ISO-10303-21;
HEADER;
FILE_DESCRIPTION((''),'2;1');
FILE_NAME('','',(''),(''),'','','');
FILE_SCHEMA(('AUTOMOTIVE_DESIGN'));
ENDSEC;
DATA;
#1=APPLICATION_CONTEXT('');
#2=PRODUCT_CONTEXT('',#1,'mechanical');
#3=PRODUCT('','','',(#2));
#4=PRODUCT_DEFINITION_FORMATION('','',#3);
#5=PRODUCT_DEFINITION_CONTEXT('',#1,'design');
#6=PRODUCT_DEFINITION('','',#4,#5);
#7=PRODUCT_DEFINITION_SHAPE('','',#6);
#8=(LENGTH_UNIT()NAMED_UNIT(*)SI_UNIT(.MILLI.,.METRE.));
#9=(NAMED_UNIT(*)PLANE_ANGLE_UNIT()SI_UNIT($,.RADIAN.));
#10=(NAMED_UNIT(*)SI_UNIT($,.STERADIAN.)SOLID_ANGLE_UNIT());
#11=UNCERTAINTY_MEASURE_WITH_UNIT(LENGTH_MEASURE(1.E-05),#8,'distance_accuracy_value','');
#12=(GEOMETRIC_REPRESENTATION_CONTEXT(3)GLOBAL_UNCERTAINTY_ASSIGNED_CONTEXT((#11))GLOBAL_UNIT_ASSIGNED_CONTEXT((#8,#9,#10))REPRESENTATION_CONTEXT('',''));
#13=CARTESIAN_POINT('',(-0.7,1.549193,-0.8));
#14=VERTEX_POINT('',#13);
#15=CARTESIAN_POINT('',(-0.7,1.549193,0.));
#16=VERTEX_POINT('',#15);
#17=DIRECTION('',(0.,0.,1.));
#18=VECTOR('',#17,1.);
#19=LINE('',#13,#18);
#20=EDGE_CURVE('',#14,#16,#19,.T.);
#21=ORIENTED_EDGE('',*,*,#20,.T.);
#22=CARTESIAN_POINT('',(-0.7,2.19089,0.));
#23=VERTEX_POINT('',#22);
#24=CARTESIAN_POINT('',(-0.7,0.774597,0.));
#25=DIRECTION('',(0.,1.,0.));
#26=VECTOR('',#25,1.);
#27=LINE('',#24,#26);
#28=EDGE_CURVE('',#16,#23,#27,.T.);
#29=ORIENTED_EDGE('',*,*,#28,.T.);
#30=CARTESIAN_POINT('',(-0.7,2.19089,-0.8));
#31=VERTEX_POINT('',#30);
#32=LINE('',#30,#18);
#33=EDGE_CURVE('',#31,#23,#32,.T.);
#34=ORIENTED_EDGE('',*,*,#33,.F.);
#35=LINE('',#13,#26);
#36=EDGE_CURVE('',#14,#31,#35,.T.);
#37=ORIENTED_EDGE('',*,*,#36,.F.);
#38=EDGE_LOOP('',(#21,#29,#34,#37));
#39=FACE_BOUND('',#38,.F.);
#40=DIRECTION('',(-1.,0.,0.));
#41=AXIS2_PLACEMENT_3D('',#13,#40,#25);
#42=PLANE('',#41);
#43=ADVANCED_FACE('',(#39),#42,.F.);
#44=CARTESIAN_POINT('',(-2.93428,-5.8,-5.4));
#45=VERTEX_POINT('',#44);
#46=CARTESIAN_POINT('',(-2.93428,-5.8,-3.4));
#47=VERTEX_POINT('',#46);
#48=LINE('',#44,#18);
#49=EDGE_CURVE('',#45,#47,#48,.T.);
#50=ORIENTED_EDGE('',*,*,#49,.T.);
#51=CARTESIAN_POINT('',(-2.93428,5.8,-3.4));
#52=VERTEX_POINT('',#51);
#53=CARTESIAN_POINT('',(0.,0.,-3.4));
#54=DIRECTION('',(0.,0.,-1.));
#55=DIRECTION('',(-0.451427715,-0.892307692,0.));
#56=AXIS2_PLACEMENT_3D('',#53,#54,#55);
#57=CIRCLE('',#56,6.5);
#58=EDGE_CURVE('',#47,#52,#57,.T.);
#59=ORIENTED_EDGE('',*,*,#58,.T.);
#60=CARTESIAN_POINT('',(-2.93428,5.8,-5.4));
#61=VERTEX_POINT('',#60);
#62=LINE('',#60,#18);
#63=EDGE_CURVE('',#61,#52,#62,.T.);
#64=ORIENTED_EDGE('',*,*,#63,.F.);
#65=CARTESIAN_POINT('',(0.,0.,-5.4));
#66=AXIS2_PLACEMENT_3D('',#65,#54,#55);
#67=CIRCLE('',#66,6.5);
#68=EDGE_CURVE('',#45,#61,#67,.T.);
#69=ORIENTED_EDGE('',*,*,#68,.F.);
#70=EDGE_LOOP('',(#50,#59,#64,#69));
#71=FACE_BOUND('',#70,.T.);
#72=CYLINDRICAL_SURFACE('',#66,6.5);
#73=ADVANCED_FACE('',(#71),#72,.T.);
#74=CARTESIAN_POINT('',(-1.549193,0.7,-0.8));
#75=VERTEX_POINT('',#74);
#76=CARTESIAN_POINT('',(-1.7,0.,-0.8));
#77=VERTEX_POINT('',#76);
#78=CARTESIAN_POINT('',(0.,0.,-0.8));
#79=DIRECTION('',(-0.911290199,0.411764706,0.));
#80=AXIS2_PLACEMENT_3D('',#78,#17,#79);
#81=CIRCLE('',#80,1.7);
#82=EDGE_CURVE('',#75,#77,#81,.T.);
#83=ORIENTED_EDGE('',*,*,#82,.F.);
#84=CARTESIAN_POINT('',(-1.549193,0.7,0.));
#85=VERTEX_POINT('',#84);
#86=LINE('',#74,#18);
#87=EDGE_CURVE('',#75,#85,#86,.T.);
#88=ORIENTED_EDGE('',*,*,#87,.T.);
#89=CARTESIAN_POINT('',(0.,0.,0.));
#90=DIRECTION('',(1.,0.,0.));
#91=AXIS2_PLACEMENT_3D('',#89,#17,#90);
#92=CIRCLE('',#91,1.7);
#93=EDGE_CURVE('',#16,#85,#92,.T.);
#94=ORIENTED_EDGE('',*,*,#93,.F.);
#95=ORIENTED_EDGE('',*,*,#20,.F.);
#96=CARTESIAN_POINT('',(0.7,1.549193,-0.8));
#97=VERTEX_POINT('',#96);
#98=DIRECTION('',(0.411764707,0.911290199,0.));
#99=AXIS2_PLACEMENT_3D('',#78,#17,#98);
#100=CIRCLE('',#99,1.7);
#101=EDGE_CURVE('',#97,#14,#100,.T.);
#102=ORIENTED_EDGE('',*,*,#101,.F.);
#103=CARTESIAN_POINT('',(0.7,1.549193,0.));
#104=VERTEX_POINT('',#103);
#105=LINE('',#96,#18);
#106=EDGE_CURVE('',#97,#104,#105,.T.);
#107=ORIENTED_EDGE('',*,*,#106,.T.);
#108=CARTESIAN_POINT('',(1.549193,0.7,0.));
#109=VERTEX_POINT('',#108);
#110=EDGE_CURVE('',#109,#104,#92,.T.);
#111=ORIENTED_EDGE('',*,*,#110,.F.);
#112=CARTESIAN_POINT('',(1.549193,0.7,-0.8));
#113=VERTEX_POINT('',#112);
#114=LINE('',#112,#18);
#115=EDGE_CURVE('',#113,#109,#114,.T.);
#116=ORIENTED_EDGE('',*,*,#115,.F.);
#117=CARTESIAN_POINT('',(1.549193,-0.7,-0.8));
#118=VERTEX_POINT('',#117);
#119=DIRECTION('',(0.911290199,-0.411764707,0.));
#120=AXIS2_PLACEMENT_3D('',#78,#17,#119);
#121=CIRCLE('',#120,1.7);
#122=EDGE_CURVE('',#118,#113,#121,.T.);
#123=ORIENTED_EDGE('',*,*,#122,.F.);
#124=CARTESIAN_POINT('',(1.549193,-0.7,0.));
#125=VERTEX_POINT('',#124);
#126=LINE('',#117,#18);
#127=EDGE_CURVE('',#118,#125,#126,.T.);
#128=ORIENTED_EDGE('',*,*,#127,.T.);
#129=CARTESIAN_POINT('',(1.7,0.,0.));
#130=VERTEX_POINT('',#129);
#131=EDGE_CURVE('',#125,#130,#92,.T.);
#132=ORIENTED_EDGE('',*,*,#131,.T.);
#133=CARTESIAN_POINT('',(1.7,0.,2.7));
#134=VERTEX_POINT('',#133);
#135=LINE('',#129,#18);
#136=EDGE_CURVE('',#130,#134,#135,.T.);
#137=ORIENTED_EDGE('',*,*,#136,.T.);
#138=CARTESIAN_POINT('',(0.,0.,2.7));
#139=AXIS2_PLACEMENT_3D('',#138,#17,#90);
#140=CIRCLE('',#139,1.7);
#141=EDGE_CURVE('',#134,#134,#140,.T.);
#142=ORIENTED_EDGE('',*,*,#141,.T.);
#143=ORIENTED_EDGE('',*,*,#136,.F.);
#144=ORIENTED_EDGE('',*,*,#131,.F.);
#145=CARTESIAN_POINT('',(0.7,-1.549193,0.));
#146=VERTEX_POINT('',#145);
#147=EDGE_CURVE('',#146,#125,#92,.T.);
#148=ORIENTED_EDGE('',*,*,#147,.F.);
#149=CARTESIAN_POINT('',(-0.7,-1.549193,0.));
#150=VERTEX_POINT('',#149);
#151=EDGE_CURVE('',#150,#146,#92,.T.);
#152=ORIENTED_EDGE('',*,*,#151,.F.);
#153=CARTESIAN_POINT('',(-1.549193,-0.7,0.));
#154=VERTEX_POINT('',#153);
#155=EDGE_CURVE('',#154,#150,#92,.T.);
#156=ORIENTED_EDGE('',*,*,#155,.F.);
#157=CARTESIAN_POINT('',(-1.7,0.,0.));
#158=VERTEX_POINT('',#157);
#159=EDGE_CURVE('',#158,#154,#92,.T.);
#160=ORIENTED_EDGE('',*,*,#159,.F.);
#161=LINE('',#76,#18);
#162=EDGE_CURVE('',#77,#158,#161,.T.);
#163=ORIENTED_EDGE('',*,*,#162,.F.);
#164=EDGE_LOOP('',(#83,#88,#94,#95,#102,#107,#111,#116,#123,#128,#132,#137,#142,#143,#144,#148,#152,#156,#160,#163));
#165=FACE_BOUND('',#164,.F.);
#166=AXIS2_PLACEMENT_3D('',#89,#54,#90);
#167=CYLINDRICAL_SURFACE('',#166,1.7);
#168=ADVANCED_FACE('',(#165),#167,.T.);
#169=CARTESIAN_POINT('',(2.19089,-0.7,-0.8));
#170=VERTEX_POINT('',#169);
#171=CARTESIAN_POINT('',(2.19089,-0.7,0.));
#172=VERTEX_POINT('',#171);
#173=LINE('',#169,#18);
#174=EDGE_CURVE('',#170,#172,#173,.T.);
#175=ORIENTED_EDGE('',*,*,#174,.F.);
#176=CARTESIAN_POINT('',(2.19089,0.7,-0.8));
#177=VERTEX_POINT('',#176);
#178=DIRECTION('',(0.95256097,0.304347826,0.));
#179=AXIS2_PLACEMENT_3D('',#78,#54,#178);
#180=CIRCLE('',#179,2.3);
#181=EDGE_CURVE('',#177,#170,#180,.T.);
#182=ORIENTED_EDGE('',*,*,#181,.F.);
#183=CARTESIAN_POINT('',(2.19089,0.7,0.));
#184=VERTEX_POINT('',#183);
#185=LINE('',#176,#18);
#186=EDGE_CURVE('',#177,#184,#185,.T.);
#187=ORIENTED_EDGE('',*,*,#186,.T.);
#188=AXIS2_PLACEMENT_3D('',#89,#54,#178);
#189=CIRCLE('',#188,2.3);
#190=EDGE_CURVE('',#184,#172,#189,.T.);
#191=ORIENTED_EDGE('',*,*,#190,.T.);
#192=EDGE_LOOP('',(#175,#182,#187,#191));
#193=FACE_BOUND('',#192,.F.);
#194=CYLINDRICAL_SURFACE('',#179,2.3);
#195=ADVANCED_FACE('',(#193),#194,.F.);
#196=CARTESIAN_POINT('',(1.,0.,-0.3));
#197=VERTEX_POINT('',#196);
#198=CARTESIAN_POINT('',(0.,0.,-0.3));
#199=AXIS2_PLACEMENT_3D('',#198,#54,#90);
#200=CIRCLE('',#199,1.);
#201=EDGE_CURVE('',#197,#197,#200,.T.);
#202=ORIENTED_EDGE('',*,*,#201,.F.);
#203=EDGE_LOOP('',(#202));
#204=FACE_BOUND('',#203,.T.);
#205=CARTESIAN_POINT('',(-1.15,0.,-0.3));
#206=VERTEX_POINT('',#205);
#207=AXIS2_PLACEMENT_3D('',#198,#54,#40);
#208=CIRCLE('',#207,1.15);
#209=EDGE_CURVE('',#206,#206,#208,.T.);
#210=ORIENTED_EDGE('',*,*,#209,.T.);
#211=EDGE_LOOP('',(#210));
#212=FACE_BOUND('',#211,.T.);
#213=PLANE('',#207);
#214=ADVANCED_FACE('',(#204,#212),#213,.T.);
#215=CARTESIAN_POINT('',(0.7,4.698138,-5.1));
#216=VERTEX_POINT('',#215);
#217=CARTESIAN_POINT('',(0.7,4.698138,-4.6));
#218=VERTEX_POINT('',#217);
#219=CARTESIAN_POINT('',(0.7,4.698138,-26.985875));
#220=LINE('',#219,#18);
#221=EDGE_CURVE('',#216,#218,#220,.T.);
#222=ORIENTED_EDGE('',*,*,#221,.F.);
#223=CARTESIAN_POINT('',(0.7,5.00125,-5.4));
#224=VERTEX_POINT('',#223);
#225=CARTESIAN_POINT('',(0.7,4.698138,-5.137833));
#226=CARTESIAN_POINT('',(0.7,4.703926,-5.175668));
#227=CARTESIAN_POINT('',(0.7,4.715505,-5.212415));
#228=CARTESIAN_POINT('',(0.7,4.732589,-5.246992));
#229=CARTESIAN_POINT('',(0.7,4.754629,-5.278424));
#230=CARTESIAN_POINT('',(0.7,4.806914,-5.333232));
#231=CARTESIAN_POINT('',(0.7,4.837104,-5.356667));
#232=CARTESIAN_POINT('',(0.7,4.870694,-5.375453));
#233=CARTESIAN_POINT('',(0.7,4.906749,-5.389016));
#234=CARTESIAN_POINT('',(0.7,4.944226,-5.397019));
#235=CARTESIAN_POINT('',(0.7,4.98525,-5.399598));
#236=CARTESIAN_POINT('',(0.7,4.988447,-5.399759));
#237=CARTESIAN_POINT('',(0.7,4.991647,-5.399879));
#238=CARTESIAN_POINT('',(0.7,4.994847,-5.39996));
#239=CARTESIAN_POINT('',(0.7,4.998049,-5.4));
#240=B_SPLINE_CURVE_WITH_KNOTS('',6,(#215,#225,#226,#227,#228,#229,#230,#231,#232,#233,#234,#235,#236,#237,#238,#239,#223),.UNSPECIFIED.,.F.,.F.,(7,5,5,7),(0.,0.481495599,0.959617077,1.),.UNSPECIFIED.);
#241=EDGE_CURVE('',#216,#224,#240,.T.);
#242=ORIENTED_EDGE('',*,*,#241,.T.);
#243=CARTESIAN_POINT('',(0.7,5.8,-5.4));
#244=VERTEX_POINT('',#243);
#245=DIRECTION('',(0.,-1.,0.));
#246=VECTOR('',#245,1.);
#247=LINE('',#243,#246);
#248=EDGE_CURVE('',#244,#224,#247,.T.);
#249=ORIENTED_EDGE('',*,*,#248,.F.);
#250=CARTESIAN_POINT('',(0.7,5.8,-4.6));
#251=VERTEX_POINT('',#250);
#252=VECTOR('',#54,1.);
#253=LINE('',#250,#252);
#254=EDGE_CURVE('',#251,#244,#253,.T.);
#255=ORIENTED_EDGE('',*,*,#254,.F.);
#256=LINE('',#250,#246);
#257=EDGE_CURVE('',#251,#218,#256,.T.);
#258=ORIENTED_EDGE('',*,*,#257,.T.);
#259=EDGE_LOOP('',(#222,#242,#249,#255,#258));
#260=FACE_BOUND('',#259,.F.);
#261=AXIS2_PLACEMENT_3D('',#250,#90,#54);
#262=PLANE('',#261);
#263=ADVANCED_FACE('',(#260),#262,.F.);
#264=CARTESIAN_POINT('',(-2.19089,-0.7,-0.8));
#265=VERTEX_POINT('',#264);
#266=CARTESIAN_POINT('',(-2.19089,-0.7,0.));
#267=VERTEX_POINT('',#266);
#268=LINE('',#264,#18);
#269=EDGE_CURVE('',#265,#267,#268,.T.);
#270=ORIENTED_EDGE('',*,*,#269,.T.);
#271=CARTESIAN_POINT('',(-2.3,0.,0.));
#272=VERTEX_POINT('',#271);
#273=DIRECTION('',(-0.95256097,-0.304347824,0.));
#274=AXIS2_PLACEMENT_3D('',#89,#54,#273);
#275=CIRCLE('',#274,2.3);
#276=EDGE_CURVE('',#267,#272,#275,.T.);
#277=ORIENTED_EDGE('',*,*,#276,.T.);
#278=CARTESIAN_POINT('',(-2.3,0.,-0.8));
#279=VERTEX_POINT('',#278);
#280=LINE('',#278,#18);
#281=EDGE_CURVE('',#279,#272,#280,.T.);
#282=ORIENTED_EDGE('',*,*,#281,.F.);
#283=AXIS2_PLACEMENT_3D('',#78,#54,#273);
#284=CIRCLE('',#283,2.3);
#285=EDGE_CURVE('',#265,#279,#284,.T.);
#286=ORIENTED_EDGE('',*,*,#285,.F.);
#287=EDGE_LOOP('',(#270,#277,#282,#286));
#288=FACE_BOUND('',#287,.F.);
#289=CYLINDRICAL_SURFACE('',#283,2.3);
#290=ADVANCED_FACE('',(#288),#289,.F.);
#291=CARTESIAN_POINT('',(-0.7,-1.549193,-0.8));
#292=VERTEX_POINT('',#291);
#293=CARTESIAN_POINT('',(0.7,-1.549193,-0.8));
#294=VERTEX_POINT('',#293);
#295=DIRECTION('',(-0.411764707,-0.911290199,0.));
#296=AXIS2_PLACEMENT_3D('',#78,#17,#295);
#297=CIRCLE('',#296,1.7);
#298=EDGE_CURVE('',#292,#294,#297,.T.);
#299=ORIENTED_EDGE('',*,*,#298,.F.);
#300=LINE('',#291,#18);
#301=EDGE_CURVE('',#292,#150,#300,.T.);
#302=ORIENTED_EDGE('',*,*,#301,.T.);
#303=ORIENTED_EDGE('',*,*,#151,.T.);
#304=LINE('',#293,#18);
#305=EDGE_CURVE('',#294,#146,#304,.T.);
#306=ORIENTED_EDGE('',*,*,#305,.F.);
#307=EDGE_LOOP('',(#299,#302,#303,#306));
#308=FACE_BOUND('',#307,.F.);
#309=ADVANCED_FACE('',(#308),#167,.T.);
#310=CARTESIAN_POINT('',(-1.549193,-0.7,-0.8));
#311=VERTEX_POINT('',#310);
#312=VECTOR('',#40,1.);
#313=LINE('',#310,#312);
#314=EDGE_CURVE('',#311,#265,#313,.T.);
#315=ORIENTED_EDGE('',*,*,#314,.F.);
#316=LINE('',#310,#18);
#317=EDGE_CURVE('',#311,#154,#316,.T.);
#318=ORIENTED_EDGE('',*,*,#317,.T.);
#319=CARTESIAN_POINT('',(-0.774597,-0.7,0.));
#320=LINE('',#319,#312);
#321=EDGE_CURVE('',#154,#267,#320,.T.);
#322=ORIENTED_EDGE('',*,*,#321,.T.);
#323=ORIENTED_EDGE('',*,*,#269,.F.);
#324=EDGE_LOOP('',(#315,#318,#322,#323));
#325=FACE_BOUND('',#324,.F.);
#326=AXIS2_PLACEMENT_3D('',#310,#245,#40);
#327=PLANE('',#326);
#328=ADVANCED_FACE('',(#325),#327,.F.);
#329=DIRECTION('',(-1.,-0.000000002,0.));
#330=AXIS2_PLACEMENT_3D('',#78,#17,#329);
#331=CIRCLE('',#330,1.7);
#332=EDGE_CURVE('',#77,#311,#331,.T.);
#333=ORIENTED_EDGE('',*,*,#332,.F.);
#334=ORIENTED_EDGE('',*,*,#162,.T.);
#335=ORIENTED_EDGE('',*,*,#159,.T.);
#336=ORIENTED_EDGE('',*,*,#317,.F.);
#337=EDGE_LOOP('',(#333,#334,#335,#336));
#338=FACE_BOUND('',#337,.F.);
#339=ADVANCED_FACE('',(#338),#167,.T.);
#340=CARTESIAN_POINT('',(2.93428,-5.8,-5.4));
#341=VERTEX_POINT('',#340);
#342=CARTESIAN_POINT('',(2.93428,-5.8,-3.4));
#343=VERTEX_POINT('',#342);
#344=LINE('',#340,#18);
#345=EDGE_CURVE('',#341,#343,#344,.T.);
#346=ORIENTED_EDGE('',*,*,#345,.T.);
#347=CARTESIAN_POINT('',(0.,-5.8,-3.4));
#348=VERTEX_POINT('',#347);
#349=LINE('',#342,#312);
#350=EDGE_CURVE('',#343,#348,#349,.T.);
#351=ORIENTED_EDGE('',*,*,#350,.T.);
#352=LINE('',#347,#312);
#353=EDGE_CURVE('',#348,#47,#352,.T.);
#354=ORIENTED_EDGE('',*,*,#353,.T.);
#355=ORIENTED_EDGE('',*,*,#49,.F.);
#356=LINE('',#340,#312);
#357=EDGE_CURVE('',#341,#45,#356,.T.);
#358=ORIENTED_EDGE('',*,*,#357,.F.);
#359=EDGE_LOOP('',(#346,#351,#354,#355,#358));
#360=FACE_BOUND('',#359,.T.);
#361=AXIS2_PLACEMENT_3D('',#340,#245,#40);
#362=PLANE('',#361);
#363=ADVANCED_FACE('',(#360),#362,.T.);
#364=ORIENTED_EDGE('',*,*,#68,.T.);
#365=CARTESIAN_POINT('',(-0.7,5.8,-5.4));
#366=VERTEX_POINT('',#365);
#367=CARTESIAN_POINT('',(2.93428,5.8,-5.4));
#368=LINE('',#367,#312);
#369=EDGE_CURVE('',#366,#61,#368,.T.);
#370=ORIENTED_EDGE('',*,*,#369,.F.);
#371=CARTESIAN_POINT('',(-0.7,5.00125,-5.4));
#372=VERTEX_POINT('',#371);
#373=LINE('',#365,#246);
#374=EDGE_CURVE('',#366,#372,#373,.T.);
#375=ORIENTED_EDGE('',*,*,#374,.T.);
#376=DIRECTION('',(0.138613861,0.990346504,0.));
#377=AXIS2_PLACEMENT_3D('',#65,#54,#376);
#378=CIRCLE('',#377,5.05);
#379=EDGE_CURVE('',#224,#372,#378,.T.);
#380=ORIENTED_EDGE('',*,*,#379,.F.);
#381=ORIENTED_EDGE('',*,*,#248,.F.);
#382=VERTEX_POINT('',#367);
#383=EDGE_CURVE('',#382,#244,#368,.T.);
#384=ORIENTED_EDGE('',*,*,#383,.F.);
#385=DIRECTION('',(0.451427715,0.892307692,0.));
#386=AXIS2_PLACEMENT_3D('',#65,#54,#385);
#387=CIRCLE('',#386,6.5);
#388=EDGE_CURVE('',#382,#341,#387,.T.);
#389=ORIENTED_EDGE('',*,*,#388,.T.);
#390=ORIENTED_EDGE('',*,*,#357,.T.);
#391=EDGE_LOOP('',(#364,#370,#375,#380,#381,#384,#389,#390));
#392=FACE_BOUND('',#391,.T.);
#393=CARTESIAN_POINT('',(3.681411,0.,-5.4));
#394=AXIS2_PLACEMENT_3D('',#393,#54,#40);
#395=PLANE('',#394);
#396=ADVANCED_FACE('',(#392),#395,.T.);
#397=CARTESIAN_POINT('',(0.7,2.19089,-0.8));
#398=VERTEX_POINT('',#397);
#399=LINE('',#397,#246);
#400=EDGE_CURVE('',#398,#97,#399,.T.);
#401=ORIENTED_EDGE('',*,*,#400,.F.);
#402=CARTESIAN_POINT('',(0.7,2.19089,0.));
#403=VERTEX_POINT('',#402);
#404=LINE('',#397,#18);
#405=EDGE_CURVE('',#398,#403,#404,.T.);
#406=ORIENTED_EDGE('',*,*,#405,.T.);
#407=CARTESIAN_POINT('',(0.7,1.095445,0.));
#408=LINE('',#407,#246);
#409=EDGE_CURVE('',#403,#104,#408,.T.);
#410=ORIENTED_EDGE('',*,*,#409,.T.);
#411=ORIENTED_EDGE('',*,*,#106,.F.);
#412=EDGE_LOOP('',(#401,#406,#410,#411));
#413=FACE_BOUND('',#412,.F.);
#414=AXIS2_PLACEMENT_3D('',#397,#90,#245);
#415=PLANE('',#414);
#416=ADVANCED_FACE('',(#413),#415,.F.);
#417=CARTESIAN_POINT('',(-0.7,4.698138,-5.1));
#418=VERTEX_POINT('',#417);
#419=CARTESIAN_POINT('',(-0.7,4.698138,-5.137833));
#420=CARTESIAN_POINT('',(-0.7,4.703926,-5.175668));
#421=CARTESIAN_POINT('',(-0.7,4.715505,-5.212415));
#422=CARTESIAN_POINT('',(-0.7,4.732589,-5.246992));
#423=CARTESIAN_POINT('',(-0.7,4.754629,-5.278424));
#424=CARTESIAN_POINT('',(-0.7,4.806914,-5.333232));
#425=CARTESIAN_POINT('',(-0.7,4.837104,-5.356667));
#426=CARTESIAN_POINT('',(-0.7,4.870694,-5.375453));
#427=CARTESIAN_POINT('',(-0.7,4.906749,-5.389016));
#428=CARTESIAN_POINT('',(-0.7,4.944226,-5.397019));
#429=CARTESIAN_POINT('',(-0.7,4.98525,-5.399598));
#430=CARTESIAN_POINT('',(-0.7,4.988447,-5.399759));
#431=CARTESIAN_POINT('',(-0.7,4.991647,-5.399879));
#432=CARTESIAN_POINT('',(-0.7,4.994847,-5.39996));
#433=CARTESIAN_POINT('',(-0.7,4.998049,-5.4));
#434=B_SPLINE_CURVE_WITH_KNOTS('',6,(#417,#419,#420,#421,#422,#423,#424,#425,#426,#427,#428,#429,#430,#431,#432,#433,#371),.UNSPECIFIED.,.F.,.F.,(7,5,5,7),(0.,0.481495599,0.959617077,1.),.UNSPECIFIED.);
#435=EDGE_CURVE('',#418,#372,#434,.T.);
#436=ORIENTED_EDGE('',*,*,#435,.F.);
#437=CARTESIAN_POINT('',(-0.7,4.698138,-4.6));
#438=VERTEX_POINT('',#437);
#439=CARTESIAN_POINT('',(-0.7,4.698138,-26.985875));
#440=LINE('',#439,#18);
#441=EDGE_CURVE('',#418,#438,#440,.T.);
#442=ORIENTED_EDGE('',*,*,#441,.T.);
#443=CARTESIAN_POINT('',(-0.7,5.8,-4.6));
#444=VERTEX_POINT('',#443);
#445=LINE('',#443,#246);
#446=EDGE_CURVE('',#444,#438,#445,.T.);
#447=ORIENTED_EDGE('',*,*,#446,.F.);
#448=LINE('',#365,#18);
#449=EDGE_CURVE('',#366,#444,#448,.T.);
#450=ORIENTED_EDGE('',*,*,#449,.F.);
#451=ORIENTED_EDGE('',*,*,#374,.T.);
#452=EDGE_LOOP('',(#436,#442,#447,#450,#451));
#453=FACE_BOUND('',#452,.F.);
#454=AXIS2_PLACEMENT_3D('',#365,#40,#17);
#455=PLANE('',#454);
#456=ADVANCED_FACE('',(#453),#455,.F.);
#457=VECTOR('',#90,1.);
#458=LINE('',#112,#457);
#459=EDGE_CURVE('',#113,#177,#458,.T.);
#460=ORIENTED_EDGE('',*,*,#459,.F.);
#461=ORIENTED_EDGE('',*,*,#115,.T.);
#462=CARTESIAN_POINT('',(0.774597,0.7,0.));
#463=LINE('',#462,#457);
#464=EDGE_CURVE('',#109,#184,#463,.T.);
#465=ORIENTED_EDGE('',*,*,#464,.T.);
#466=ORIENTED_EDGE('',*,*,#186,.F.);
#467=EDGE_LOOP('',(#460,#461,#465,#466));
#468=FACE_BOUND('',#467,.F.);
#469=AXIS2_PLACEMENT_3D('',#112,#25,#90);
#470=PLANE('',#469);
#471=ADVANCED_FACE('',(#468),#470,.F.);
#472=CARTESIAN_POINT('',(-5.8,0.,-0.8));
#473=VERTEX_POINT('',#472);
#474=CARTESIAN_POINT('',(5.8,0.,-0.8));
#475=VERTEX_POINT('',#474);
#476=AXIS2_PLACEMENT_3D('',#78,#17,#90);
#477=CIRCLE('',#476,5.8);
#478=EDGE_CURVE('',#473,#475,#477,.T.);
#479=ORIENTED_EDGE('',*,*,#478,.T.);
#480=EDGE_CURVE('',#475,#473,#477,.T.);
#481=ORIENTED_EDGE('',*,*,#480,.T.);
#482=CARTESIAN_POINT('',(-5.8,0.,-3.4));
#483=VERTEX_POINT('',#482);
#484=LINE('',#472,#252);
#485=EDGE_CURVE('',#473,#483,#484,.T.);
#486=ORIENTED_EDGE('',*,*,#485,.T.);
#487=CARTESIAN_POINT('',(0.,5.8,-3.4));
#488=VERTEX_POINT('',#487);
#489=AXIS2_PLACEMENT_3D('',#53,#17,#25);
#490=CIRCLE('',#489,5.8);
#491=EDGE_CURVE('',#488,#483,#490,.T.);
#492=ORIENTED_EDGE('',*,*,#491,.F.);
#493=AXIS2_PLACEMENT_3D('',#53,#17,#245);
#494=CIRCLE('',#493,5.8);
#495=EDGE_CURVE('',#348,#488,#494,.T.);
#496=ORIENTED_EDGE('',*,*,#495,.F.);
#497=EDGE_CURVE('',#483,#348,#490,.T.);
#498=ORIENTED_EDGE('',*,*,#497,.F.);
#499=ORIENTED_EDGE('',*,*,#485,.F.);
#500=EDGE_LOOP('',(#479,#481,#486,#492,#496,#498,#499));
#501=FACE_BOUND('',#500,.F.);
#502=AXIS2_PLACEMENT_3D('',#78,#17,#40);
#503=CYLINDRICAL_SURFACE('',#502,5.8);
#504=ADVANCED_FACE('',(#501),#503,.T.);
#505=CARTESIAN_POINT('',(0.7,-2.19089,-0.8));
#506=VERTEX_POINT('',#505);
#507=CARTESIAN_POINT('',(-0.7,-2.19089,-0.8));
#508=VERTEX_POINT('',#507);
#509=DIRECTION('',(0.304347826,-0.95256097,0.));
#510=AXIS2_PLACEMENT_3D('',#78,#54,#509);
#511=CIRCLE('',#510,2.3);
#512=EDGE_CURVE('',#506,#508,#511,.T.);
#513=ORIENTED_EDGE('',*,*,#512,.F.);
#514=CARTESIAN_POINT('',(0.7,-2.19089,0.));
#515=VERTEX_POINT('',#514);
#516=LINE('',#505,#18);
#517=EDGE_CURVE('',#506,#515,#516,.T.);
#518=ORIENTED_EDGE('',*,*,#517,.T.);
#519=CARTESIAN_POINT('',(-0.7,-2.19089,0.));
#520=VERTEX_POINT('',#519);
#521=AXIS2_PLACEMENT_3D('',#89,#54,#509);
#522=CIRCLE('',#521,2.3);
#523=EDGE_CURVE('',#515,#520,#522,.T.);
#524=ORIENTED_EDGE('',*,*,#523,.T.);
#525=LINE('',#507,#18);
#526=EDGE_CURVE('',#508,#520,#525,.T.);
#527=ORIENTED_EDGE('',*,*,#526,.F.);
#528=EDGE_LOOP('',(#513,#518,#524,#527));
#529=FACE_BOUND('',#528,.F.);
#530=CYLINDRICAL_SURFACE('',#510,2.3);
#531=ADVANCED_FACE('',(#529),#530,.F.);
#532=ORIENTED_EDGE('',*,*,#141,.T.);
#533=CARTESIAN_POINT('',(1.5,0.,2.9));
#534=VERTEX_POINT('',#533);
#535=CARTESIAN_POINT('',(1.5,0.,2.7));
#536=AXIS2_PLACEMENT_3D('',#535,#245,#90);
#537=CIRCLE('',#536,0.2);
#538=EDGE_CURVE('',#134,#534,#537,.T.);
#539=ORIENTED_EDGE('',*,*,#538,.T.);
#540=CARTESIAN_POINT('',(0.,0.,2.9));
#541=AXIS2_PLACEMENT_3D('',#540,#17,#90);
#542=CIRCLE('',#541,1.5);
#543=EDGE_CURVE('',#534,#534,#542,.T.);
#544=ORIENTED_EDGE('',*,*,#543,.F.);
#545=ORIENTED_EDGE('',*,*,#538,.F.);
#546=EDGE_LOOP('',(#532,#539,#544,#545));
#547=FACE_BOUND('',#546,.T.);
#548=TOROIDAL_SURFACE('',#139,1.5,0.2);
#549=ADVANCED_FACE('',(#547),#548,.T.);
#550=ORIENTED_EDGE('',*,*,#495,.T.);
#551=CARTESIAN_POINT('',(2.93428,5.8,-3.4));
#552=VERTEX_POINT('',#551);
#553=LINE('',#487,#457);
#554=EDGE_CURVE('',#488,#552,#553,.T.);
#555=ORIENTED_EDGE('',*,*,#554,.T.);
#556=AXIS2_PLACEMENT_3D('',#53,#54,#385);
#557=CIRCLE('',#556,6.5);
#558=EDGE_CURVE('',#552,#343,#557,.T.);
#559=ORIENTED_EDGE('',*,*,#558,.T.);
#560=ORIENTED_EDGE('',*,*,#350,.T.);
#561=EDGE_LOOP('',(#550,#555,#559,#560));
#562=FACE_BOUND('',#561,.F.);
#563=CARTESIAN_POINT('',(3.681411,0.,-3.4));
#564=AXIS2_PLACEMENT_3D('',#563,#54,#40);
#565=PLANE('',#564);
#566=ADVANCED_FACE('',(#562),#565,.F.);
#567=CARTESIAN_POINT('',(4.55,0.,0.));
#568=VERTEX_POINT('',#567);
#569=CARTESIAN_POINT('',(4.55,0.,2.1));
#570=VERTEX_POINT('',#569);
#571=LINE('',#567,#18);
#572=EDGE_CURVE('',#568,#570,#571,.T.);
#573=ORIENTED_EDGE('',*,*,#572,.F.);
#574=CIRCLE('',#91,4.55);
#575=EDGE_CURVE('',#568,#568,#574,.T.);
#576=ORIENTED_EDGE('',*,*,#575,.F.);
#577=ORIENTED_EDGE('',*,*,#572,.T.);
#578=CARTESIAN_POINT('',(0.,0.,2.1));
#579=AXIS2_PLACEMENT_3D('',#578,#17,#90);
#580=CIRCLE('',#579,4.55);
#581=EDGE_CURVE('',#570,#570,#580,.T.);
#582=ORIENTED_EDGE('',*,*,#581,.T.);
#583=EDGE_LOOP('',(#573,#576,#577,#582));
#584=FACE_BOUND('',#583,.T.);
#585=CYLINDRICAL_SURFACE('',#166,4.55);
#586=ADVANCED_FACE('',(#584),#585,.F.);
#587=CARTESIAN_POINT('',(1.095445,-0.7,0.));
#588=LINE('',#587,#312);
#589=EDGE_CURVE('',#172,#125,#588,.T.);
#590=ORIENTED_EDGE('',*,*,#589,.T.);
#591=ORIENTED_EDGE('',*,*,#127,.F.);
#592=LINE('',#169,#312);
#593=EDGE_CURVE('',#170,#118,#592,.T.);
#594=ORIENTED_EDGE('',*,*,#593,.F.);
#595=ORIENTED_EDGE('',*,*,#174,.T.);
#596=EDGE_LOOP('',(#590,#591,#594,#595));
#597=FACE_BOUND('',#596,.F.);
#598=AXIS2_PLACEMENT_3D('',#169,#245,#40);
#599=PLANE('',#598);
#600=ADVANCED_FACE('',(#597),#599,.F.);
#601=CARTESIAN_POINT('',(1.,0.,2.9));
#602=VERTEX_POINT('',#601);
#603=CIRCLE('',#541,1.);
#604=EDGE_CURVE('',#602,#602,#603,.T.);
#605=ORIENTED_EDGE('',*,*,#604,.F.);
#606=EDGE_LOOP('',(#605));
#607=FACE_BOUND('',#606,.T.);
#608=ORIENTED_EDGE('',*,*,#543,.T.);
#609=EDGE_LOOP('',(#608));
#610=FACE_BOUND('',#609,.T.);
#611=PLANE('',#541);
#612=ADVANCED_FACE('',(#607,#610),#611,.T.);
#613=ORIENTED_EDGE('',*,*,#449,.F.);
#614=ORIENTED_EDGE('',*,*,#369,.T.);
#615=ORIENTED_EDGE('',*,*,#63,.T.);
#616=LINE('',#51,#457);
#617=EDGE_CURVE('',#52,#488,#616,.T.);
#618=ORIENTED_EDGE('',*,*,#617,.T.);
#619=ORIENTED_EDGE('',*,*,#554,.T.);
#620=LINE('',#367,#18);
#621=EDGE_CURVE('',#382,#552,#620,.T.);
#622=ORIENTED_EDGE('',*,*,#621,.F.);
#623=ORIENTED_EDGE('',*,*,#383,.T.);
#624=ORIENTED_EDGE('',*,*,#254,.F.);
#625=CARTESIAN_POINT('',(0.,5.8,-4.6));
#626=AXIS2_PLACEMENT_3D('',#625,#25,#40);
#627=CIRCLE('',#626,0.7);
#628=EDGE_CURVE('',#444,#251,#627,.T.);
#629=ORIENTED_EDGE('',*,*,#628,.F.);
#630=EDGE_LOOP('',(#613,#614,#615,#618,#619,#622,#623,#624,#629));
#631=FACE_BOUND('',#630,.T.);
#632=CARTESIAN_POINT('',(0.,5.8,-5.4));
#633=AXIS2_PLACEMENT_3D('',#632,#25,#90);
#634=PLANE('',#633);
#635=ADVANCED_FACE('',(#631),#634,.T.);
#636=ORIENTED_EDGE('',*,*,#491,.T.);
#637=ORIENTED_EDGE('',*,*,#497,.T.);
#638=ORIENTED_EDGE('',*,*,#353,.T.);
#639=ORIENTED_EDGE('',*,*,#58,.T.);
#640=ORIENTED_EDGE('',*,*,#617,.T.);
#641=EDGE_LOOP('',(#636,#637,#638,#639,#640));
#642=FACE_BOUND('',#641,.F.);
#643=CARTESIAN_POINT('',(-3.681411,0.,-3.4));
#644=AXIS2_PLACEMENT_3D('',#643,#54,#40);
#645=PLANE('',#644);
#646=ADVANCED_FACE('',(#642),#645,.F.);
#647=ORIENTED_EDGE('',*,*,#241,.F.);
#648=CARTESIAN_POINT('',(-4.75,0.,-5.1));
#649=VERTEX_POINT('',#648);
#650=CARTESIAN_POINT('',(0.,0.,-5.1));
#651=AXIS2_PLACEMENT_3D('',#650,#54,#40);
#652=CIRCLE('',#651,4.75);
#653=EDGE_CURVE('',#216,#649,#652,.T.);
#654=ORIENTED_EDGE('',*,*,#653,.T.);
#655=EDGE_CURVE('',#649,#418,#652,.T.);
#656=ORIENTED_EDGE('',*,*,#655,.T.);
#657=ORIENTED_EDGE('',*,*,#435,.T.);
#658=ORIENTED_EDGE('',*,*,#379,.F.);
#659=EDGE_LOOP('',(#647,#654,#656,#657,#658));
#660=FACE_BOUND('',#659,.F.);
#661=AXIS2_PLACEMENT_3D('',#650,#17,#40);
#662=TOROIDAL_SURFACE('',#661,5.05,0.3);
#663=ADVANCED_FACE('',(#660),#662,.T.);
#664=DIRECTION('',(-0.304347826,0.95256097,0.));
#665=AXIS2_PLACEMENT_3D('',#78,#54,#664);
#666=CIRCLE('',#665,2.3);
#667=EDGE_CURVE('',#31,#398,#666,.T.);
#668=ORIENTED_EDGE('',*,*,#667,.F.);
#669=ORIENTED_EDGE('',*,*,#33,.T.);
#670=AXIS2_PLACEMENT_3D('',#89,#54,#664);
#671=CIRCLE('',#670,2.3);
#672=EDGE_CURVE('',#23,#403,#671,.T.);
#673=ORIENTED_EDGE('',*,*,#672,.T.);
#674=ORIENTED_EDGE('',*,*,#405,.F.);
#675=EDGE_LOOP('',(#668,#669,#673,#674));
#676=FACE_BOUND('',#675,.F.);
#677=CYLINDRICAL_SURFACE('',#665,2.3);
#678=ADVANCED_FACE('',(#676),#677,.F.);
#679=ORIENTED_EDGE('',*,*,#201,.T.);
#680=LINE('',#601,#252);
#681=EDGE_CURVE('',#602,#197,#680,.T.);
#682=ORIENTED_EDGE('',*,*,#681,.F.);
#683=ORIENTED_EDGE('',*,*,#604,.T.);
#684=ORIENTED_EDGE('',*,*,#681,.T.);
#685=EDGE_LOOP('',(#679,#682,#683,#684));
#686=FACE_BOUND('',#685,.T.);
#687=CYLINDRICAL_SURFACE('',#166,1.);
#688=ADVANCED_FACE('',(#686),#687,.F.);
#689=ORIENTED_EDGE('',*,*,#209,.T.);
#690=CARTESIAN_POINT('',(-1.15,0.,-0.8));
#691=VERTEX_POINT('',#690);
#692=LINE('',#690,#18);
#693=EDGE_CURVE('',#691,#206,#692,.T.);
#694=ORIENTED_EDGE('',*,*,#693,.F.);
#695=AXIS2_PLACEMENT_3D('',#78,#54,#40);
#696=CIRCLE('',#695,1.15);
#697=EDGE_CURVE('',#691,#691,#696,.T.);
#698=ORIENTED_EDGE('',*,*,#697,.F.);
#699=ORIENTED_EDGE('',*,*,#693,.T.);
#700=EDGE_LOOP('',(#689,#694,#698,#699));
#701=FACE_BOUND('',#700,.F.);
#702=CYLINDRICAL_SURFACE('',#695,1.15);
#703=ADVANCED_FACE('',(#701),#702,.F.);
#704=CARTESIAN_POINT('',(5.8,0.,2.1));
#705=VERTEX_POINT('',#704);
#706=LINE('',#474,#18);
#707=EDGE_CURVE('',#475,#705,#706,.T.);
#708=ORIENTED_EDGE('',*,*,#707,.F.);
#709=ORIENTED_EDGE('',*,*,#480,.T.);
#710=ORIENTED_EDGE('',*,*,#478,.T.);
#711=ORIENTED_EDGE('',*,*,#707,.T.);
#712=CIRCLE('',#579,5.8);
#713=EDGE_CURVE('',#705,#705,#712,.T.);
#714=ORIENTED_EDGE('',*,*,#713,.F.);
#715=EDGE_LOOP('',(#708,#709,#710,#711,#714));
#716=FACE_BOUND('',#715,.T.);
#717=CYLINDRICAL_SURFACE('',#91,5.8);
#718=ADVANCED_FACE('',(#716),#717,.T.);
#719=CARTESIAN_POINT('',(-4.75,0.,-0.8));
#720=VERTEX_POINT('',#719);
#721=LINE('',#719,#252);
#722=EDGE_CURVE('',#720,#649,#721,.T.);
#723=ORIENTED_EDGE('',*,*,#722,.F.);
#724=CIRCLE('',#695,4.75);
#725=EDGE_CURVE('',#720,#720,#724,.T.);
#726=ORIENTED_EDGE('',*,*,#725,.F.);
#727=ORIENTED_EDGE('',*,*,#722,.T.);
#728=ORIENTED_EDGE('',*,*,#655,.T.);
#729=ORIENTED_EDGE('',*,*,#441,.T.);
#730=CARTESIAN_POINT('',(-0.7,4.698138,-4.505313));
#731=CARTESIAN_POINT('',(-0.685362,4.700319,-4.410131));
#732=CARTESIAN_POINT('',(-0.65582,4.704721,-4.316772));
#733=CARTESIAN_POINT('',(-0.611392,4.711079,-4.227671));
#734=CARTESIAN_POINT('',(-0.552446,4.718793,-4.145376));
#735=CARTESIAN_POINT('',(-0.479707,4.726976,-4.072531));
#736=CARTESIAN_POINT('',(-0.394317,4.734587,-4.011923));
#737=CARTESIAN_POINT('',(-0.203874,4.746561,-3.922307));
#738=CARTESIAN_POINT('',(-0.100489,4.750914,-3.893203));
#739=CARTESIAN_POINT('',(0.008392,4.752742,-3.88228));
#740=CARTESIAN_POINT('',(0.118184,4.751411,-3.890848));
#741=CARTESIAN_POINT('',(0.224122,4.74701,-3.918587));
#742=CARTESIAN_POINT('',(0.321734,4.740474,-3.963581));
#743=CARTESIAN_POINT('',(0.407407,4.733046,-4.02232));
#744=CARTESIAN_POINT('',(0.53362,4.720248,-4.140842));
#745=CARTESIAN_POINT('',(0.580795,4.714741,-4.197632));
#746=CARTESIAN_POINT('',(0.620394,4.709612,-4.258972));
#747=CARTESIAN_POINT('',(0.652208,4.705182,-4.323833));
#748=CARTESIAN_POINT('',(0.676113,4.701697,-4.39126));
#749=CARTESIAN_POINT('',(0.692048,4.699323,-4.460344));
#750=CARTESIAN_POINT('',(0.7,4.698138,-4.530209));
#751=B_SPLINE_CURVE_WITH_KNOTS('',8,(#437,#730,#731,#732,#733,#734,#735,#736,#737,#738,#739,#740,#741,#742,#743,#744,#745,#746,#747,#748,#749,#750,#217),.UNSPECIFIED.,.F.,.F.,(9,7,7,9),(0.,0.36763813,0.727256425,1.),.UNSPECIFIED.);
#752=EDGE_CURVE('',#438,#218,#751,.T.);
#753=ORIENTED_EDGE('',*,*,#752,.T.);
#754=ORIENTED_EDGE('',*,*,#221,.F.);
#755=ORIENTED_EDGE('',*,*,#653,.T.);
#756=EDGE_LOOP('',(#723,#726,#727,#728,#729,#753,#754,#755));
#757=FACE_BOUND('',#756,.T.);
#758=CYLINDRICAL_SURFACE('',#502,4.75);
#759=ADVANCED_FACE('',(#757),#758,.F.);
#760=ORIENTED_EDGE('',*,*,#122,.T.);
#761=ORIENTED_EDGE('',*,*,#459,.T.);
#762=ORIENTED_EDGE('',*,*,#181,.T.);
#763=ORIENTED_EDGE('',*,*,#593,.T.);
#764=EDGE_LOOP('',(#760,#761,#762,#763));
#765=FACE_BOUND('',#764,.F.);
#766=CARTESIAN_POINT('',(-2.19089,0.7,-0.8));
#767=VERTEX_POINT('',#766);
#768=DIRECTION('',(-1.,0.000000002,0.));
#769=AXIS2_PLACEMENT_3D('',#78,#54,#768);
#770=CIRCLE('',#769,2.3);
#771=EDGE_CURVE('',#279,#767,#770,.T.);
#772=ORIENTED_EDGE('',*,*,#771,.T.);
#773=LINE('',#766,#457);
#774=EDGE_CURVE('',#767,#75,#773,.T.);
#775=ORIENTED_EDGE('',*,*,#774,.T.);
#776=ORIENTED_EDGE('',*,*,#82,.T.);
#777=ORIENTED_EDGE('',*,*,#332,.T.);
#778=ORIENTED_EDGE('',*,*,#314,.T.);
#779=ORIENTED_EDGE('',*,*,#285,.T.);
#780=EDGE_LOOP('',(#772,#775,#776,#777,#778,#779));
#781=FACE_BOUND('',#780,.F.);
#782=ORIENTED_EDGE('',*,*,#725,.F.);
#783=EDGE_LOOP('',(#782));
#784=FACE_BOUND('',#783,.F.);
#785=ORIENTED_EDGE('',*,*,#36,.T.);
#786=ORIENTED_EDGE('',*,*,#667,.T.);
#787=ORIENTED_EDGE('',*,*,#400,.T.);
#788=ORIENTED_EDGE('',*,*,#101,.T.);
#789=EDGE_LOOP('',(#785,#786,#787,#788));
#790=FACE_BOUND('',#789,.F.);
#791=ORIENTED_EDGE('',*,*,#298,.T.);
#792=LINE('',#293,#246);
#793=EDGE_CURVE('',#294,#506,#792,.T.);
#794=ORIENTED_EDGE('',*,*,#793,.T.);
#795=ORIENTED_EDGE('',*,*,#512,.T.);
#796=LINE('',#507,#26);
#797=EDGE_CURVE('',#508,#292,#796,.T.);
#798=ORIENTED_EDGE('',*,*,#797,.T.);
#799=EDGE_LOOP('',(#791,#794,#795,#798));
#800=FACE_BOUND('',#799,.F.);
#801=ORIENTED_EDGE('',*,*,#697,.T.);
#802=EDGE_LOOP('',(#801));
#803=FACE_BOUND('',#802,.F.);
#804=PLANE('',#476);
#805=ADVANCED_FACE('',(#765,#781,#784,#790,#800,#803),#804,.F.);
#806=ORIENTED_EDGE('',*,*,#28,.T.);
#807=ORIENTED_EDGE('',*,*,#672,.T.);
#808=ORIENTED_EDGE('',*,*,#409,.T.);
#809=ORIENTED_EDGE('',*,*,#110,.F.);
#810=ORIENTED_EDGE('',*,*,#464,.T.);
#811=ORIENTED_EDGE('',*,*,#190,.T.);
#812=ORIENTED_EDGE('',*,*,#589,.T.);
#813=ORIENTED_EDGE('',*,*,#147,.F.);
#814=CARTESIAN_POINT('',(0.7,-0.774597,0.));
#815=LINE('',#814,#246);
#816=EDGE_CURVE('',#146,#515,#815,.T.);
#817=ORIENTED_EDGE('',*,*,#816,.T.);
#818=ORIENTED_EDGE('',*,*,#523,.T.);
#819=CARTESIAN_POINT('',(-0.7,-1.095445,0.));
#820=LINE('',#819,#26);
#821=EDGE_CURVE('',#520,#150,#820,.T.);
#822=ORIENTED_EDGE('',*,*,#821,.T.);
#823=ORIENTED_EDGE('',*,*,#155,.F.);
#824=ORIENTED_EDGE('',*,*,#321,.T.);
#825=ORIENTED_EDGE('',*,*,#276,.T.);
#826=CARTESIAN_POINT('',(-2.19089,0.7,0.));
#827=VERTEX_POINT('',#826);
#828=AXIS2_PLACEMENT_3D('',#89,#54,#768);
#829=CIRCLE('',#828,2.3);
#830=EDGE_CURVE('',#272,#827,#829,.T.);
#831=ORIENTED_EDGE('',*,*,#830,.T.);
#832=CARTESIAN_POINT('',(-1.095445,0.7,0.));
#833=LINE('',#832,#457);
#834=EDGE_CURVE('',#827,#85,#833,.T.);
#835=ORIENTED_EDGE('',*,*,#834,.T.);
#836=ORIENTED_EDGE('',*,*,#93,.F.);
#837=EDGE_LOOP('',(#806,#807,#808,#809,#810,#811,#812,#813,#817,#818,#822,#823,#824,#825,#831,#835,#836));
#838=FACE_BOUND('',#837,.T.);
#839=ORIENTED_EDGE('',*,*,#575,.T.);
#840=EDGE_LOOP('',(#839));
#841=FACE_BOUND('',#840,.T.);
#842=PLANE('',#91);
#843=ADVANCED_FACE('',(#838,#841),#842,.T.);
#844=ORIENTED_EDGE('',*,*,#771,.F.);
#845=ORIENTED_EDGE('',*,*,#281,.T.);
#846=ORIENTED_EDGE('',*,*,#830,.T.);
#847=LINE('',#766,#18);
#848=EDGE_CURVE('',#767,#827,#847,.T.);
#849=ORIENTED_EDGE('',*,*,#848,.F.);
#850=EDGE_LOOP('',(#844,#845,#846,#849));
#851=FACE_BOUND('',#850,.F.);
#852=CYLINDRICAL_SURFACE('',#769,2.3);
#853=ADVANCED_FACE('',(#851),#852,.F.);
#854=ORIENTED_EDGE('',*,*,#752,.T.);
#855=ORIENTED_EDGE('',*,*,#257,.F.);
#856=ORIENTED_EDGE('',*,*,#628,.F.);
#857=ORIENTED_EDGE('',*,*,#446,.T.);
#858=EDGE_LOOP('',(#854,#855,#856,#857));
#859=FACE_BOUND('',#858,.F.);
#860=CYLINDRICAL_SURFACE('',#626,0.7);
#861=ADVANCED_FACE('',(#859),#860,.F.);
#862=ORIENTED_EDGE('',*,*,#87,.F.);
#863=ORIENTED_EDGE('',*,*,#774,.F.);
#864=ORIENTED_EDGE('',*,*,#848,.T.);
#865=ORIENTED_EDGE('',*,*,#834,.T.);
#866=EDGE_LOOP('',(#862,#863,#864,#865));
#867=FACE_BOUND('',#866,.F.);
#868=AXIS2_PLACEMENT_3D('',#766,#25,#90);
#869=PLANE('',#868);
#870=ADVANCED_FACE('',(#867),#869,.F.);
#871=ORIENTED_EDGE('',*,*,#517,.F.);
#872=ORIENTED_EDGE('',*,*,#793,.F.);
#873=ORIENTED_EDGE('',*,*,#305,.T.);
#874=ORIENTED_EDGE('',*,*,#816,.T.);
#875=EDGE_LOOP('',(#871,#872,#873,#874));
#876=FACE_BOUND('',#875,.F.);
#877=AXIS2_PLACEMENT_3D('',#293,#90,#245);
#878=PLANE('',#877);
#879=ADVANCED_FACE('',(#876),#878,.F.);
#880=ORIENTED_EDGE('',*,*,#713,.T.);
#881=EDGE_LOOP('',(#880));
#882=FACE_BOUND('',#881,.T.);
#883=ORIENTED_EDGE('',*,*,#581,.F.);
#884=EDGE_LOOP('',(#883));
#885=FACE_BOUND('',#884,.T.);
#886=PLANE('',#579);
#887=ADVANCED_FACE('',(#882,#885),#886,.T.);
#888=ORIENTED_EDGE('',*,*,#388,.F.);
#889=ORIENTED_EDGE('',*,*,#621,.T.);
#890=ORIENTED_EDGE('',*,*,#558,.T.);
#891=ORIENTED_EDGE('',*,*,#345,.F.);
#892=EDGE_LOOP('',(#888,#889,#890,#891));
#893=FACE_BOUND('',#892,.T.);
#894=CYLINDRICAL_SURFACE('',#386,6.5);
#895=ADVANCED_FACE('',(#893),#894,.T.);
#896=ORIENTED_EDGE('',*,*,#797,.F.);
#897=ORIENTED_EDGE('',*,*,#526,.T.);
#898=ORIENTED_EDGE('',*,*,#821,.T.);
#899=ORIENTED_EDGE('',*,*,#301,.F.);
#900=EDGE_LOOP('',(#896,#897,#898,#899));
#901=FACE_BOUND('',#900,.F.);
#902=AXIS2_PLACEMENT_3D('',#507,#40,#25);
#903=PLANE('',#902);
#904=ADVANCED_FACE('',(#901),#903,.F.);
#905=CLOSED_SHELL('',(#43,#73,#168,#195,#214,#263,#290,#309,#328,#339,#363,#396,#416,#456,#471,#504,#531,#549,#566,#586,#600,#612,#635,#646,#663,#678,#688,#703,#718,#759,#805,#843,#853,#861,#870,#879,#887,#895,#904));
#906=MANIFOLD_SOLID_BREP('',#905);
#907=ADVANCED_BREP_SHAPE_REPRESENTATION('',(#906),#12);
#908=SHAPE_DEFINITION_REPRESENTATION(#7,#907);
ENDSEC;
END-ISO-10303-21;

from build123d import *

# Parameters (mm, degrees)
SKETCH_1_R               = 5.8
SKETCH_1_R_2             = 4.55
EXTRUDE_1_DEPTH          = 2.1
SKETCH_1_3_R             = 1.7
SKETCH_1_3_R_2           = 1
EXTRUDE_2_DEPTH          = 2.9
SKETCH_1_5_R             = 5.8
SKETCH_1_5_R_2           = 4.55
SKETCH_1_5_R_3           = 1.7
SKETCH_1_5_R_4           = 1
EXTRUDE_4_DEPTH          = 0.8
SKETCH_2_R               = 5.8
SKETCH_2_R_2             = 4.75
EXTRUDE_5_DEPTH          = 4.6
EXTRUDE_6_DEPTH          = 2
CUT_EXTRUDE_1_REACH      = 11.851
FILLET_1_R               = 0.2
FILLET_2_R               = 0.3
SKETCH_6_R               = 1.15
CUT_EXTRUDE_4_DEPTH      = 0.5
CUT_EXTRUDE_5_REACH      = 16.352
CUT_EXTRUDE_5_END_RADIUS = 4.75


with BuildPart() as part:
    # Sketch 1 → Extrude 1 (new body)
    with BuildSketch(Plane.XY):
        Circle(SKETCH_1_R)
        Circle(SKETCH_1_R_2, mode=Mode.SUBTRACT)
    extrude(amount=EXTRUDE_1_DEPTH)



with BuildPart() as body_2:
    # Sketch 1_3 → Extrude 2 (new body)
    with BuildSketch(Plane.XY):
        Circle(SKETCH_1_3_R)
        Circle(SKETCH_1_3_R_2, mode=Mode.SUBTRACT)
    extrude(amount=EXTRUDE_2_DEPTH)


with BuildPart() as part_1:
    add(part.part)

    add(body_2.part)  # Extrude 4 merges body 2
    # Sketch 1_5 → Extrude 4 (add)
    with BuildSketch(Plane.XY):
        Circle(SKETCH_1_5_R)
        Circle(SKETCH_1_5_R_2, mode=Mode.SUBTRACT)
        Circle(SKETCH_1_5_R_2)
        Circle(SKETCH_1_5_R_3, mode=Mode.SUBTRACT)
        Circle(SKETCH_1_5_R_3)
        Circle(SKETCH_1_5_R_4, mode=Mode.SUBTRACT)
    extrude(amount=-EXTRUDE_4_DEPTH)

    # Sketch 2 → Extrude 5 (add)
    with BuildSketch(Plane(origin=(0, 0, -0.8), x_dir=(-1, 0, 0), z_dir=(0, 0, -1))):
        Circle(SKETCH_2_R)
        Circle(SKETCH_2_R_2, mode=Mode.SUBTRACT)
    extrude(amount=EXTRUDE_5_DEPTH)

    # Sketch 3 → Extrude 6 (add)
    with BuildSketch(Plane(origin=(0, 0, -5.4), x_dir=(-1, 0, 0), z_dir=(0, 0, -1))):
        with BuildLine():
            Line((0, 5.8), (-2.93428015, 5.8))
            ThreePointArc((-2.93428015, 5.8), (-6.5, 0), (-2.93428015, -5.8))
            Line((-2.93428015, -5.8), (0, -5.8))
            ThreePointArc((0, -5.8), (-5.8, 0), (0, 5.8))
        make_face()
        with BuildLine():
            Line((2.93428015, 5.8), (0, 5.8))
            ThreePointArc((0, 5.8), (5.8, 0), (0, -5.8))
            Line((0, -5.8), (2.93428015, -5.8))
            ThreePointArc((2.93428015, -5.8), (6.5, 0), (2.93428015, 5.8))
        make_face()
    extrude(amount=-EXTRUDE_6_DEPTH)

    # Sketch 4 → Cut-Extrude 1 (cut, up to next)
    with BuildSketch(Plane(origin=(0, 0, -0.8), x_dir=(-1, 0, 0), z_dir=(0, 0, -1)), mode=Mode.PRIVATE) as cut_extrude_1_sk1:
        with BuildLine():
            Line((-0.7, -1.549193338), (-0.7, -2.19089023))
            ThreePointArc((-0.7, -2.19089023), (0, -2.3), (0.7, -2.19089023))
            Line((0.7, -2.19089023), (0.7, -1.549193338))
            ThreePointArc((0.7, -1.549193338), (0, -1.7), (-0.7, -1.549193338))
        make_face()
    cut_extrude_1_tool1 = extrude(cut_extrude_1_sk1.sketch, amount=-CUT_EXTRUDE_1_REACH, mode=Mode.PRIVATE) & part_1.part
    # Sketch 4 → Cut-Extrude 1 (cut, up to next)
    with BuildSketch(Plane(origin=(0, 0, -0.8), x_dir=(-1, 0, 0), z_dir=(0, 0, -1)), mode=Mode.PRIVATE) as cut_extrude_1_sk2:
        with BuildLine():
            ThreePointArc((0.7, 2.19089023), (0, 2.3), (-0.7, 2.19089023))
            Line((-0.7, 2.19089023), (-0.7, 1.549193338))
            ThreePointArc((-0.7, 1.549193338), (0, 1.7), (0.7, 1.549193338))
            Line((0.7, 1.549193338), (0.7, 2.19089023))
        make_face()
    cut_extrude_1_tool2 = extrude(cut_extrude_1_sk2.sketch, amount=-CUT_EXTRUDE_1_REACH, mode=Mode.PRIVATE) & part_1.part
    # Sketch 4 → Cut-Extrude 1 (cut, up to next)
    with BuildSketch(Plane(origin=(0, 0, -0.8), x_dir=(-1, 0, 0), z_dir=(0, 0, -1)), mode=Mode.PRIVATE) as cut_extrude_1_sk3:
        with BuildLine():
            ThreePointArc((-2.19089023, 0.7), (-2.3, 0), (-2.19089023, -0.7))
            Line((-2.19089023, -0.7), (-1.549193338, -0.7))
            ThreePointArc((-1.549193338, -0.7), (-1.7, 0), (-1.549193338, 0.7))
            Line((-1.549193338, 0.7), (-2.19089023, 0.7))
        make_face()
    cut_extrude_1_tool3 = extrude(cut_extrude_1_sk3.sketch, amount=-CUT_EXTRUDE_1_REACH, mode=Mode.PRIVATE) & part_1.part
    # Sketch 4 → Cut-Extrude 1 (cut, up to next)
    with BuildSketch(Plane(origin=(0, 0, -0.8), x_dir=(-1, 0, 0), z_dir=(0, 0, -1)), mode=Mode.PRIVATE) as cut_extrude_1_sk4:
        with BuildLine():
            Line((1.549193338, -0.7), (2.19089023, -0.7))
            ThreePointArc((2.19089023, -0.7), (2.272558858, -0.354226249), (2.3, 0))
            ThreePointArc((2.3, 0), (2.272558858, 0.354226249), (2.19089023, 0.7))
            Line((2.19089023, 0.7), (1.549193338, 0.7))
            ThreePointArc((1.549193338, 0.7), (1.661870734, 0.358030253), (1.7, 0))
            ThreePointArc((1.7, 0), (1.661870734, -0.358030253), (1.549193338, -0.7))
        make_face()
    cut_extrude_1_tool4 = extrude(cut_extrude_1_sk4.sketch, amount=-CUT_EXTRUDE_1_REACH, mode=Mode.PRIVATE) & part_1.part
    # Sketch 4 → Cut-Extrude 1 (cut, up to next)
    with BuildSketch(Plane(origin=(0, 0, -0.8), x_dir=(-1, 0, 0), z_dir=(0, 0, -1)), mode=Mode.PRIVATE) as cut_extrude_1_sk5:
        with BuildLine():
            Line((-0.7, -1.549193338), (-0.7, -2.19089023))
            ThreePointArc((-0.7, -2.19089023), (0, -2.3), (0.7, -2.19089023))
            Line((0.7, -2.19089023), (0.7, -1.549193338))
            ThreePointArc((0.7, -1.549193338), (0, -1.7), (-0.7, -1.549193338))
        make_face()
    cut_extrude_1_tool5 = extrude(cut_extrude_1_sk5.sketch, amount=-CUT_EXTRUDE_1_REACH, mode=Mode.PRIVATE) & part_1.part
    # Sketch 4 → Cut-Extrude 1 (cut, up to next)
    with BuildSketch(Plane(origin=(0, 0, -0.8), x_dir=(-1, 0, 0), z_dir=(0, 0, -1)), mode=Mode.PRIVATE) as cut_extrude_1_sk6:
        with BuildLine():
            ThreePointArc((0.7, 2.19089023), (0, 2.3), (-0.7, 2.19089023))
            Line((-0.7, 2.19089023), (-0.7, 1.549193338))
            ThreePointArc((-0.7, 1.549193338), (0, 1.7), (0.7, 1.549193338))
            Line((0.7, 1.549193338), (0.7, 2.19089023))
        make_face()
    cut_extrude_1_tool6 = extrude(cut_extrude_1_sk6.sketch, amount=-CUT_EXTRUDE_1_REACH, mode=Mode.PRIVATE) & part_1.part
    # Sketch 4 → Cut-Extrude 1 (cut, up to next)
    with BuildSketch(Plane(origin=(0, 0, -0.8), x_dir=(-1, 0, 0), z_dir=(0, 0, -1)), mode=Mode.PRIVATE) as cut_extrude_1_sk7:
        with BuildLine():
            ThreePointArc((-2.19089023, 0.7), (-2.3, 0), (-2.19089023, -0.7))
            Line((-2.19089023, -0.7), (-1.549193338, -0.7))
            ThreePointArc((-1.549193338, -0.7), (-1.7, 0), (-1.549193338, 0.7))
            Line((-1.549193338, 0.7), (-2.19089023, 0.7))
        make_face()
    cut_extrude_1_tool7 = extrude(cut_extrude_1_sk7.sketch, amount=-CUT_EXTRUDE_1_REACH, mode=Mode.PRIVATE) & part_1.part
    # Sketch 4 → Cut-Extrude 1 (cut, up to next)
    with BuildSketch(Plane(origin=(0, 0, -0.8), x_dir=(-1, 0, 0), z_dir=(0, 0, -1)), mode=Mode.PRIVATE) as cut_extrude_1_sk8:
        with BuildLine():
            Line((1.549193338, -0.7), (2.19089023, -0.7))
            ThreePointArc((2.19089023, -0.7), (2.272558858, -0.354226249), (2.3, 0))
            ThreePointArc((2.3, 0), (2.272558858, 0.354226249), (2.19089023, 0.7))
            Line((2.19089023, 0.7), (1.549193338, 0.7))
            ThreePointArc((1.549193338, 0.7), (1.661870734, 0.358030253), (1.7, 0))
            ThreePointArc((1.7, 0), (1.661870734, -0.358030253), (1.549193338, -0.7))
        make_face()
    cut_extrude_1_tool8 = extrude(cut_extrude_1_sk8.sketch, amount=-CUT_EXTRUDE_1_REACH, mode=Mode.PRIVATE) & part_1.part
    add(cut_extrude_1_tool1.solids().sort_by_distance((0, -1.956551, -0.8))[0], mode=Mode.SUBTRACT)
    add(cut_extrude_1_tool2.solids().sort_by_distance((0, 1.956551, -0.8))[0], mode=Mode.SUBTRACT)
    add(cut_extrude_1_tool3.solids().sort_by_distance((1.956551, 0, -0.8))[0], mode=Mode.SUBTRACT)
    add(cut_extrude_1_tool4.solids().sort_by_distance((-1.956551, 0, -0.8))[0], mode=Mode.SUBTRACT)
    add(cut_extrude_1_tool5.solids().sort_by_distance((0, -1.956551, -0.8))[0], mode=Mode.SUBTRACT)
    add(cut_extrude_1_tool6.solids().sort_by_distance((0, 1.956551, -0.8))[0], mode=Mode.SUBTRACT)
    add(cut_extrude_1_tool7.solids().sort_by_distance((1.956551, 0, -0.8))[0], mode=Mode.SUBTRACT)
    add(cut_extrude_1_tool8.solids().sort_by_distance((-1.956551, 0, -0.8))[0], mode=Mode.SUBTRACT)

    # Fillet 1
    fillet_1_edges = [part_1.edges().sort_by_distance(p)[0] for p in [
        (-1.7, 0, 2.9),
    ]]
    fillet(fillet_1_edges, radius=FILLET_1_R)

    # Fillet 2
    fillet_2_edges = [part_1.edges().sort_by_distance(p)[0] for p in [
        (4.75, 0, -5.4),
    ]]
    fillet(fillet_2_edges, radius=FILLET_2_R)

    # Sketch 6 → Cut-Extrude 4 (cut)
    with BuildSketch(Plane(origin=(0, 0, -0.8), x_dir=(-1, 0, 0), z_dir=(0, 0, -1))):
        Circle(SKETCH_6_R)
    extrude(amount=-CUT_EXTRUDE_4_DEPTH, mode=Mode.SUBTRACT)

    # Cut-Extrude 5: up to this cylinder (the profile starts outside it)
    cut_extrude_5_end = Plane(origin=(0, 0, -4.843393), z_dir=(0, 0, 1)) * Cylinder(CUT_EXTRUDE_5_END_RADIUS, 44.284964, mode=Mode.PRIVATE)
    # Sketch 7 → Cut-Extrude 5 (cut, up to the surface)
    with BuildSketch(Plane(origin=(0, 5.8, 0), x_dir=(1, 0, 0), z_dir=(0, 1, 0)), mode=Mode.PRIVATE) as cut_extrude_5_sk1:
        with BuildLine():
            Line((-0.7, 5.4), (-0.7, 4.6))
            ThreePointArc((-0.7, 4.6), (0, 5.3), (0.7, 4.6))
            Line((0.7, 4.6), (0.7, 5.4))
            Line((0.7, 5.4), (-0.7, 5.4))
        make_face()
    cut_extrude_5_tool1 = extrude(cut_extrude_5_sk1.sketch, amount=-CUT_EXTRUDE_5_REACH, mode=Mode.PRIVATE) - cut_extrude_5_end
    add(cut_extrude_5_tool1.solids().sort_by_distance((0, 5.8, -5.383875))[0], mode=Mode.SUBTRACT)
    # Sketch 7 → Cut-Extrude 5 (cut, up to the surface)
    with BuildSketch(Plane(origin=(0, 5.8, 0), x_dir=(1, 0, 0), z_dir=(0, 1, 0)), mode=Mode.PRIVATE) as cut_extrude_5_sk2:
        with BuildLine():
            ThreePointArc((0.7, 4.6), (0, 5.3), (-0.7, 4.6))
            Line((-0.7, 4.6), (0.7, 4.6))
        make_face()
    cut_extrude_5_tool2 = extrude(cut_extrude_5_sk2.sketch, amount=-CUT_EXTRUDE_5_REACH, mode=Mode.PRIVATE) - cut_extrude_5_end
    add(cut_extrude_5_tool2.solids().sort_by_distance((0, 5.8, -4.897089))[0], mode=Mode.SUBTRACT)
    # Sketch 7 → Cut-Extrude 5 (cut, up to the surface)
    with BuildSketch(Plane(origin=(0, 5.8, 0), x_dir=(1, 0, 0), z_dir=(0, 1, 0)), mode=Mode.PRIVATE) as cut_extrude_5_sk3:
        with BuildLine():
            Line((0.7, 4.6), (-0.7, 4.6))
            ThreePointArc((-0.7, 4.6), (0, 3.9), (0.7, 4.6))
        make_face()
    cut_extrude_5_tool3 = extrude(cut_extrude_5_sk3.sketch, amount=-CUT_EXTRUDE_5_REACH, mode=Mode.PRIVATE) - cut_extrude_5_end
    add(cut_extrude_5_tool3.solids().sort_by_distance((0, 5.8, -4.302911))[0], mode=Mode.SUBTRACT)
    # Sketch 7 → Cut-Extrude 5 (cut, up to the surface)
    with BuildSketch(Plane(origin=(0, 5.8, 0), x_dir=(1, 0, 0), z_dir=(0, 1, 0)), mode=Mode.PRIVATE) as cut_extrude_5_sk4:
        with BuildLine():
            ThreePointArc((0.7, 4.6), (0, 5.3), (-0.7, 4.6))
            Line((-0.7, 4.6), (0.7, 4.6))
        make_face()
    cut_extrude_5_tool4 = extrude(cut_extrude_5_sk4.sketch, amount=-CUT_EXTRUDE_5_REACH, mode=Mode.PRIVATE) - cut_extrude_5_end
    add(cut_extrude_5_tool4.solids().sort_by_distance((0, 5.8, -4.897089))[0], mode=Mode.SUBTRACT)
    # Sketch 7 → Cut-Extrude 5 (cut, up to the surface)
    with BuildSketch(Plane(origin=(0, 5.8, 0), x_dir=(1, 0, 0), z_dir=(0, 1, 0)), mode=Mode.PRIVATE) as cut_extrude_5_sk5:
        with BuildLine():
            Line((0.7, 4.6), (-0.7, 4.6))
            ThreePointArc((-0.7, 4.6), (0, 3.9), (0.7, 4.6))
        make_face()
    cut_extrude_5_tool5 = extrude(cut_extrude_5_sk5.sketch, amount=-CUT_EXTRUDE_5_REACH, mode=Mode.PRIVATE) - cut_extrude_5_end
    add(cut_extrude_5_tool5.solids().sort_by_distance((0, 5.8, -4.302911))[0], mode=Mode.SUBTRACT)


solid = part_1.part
